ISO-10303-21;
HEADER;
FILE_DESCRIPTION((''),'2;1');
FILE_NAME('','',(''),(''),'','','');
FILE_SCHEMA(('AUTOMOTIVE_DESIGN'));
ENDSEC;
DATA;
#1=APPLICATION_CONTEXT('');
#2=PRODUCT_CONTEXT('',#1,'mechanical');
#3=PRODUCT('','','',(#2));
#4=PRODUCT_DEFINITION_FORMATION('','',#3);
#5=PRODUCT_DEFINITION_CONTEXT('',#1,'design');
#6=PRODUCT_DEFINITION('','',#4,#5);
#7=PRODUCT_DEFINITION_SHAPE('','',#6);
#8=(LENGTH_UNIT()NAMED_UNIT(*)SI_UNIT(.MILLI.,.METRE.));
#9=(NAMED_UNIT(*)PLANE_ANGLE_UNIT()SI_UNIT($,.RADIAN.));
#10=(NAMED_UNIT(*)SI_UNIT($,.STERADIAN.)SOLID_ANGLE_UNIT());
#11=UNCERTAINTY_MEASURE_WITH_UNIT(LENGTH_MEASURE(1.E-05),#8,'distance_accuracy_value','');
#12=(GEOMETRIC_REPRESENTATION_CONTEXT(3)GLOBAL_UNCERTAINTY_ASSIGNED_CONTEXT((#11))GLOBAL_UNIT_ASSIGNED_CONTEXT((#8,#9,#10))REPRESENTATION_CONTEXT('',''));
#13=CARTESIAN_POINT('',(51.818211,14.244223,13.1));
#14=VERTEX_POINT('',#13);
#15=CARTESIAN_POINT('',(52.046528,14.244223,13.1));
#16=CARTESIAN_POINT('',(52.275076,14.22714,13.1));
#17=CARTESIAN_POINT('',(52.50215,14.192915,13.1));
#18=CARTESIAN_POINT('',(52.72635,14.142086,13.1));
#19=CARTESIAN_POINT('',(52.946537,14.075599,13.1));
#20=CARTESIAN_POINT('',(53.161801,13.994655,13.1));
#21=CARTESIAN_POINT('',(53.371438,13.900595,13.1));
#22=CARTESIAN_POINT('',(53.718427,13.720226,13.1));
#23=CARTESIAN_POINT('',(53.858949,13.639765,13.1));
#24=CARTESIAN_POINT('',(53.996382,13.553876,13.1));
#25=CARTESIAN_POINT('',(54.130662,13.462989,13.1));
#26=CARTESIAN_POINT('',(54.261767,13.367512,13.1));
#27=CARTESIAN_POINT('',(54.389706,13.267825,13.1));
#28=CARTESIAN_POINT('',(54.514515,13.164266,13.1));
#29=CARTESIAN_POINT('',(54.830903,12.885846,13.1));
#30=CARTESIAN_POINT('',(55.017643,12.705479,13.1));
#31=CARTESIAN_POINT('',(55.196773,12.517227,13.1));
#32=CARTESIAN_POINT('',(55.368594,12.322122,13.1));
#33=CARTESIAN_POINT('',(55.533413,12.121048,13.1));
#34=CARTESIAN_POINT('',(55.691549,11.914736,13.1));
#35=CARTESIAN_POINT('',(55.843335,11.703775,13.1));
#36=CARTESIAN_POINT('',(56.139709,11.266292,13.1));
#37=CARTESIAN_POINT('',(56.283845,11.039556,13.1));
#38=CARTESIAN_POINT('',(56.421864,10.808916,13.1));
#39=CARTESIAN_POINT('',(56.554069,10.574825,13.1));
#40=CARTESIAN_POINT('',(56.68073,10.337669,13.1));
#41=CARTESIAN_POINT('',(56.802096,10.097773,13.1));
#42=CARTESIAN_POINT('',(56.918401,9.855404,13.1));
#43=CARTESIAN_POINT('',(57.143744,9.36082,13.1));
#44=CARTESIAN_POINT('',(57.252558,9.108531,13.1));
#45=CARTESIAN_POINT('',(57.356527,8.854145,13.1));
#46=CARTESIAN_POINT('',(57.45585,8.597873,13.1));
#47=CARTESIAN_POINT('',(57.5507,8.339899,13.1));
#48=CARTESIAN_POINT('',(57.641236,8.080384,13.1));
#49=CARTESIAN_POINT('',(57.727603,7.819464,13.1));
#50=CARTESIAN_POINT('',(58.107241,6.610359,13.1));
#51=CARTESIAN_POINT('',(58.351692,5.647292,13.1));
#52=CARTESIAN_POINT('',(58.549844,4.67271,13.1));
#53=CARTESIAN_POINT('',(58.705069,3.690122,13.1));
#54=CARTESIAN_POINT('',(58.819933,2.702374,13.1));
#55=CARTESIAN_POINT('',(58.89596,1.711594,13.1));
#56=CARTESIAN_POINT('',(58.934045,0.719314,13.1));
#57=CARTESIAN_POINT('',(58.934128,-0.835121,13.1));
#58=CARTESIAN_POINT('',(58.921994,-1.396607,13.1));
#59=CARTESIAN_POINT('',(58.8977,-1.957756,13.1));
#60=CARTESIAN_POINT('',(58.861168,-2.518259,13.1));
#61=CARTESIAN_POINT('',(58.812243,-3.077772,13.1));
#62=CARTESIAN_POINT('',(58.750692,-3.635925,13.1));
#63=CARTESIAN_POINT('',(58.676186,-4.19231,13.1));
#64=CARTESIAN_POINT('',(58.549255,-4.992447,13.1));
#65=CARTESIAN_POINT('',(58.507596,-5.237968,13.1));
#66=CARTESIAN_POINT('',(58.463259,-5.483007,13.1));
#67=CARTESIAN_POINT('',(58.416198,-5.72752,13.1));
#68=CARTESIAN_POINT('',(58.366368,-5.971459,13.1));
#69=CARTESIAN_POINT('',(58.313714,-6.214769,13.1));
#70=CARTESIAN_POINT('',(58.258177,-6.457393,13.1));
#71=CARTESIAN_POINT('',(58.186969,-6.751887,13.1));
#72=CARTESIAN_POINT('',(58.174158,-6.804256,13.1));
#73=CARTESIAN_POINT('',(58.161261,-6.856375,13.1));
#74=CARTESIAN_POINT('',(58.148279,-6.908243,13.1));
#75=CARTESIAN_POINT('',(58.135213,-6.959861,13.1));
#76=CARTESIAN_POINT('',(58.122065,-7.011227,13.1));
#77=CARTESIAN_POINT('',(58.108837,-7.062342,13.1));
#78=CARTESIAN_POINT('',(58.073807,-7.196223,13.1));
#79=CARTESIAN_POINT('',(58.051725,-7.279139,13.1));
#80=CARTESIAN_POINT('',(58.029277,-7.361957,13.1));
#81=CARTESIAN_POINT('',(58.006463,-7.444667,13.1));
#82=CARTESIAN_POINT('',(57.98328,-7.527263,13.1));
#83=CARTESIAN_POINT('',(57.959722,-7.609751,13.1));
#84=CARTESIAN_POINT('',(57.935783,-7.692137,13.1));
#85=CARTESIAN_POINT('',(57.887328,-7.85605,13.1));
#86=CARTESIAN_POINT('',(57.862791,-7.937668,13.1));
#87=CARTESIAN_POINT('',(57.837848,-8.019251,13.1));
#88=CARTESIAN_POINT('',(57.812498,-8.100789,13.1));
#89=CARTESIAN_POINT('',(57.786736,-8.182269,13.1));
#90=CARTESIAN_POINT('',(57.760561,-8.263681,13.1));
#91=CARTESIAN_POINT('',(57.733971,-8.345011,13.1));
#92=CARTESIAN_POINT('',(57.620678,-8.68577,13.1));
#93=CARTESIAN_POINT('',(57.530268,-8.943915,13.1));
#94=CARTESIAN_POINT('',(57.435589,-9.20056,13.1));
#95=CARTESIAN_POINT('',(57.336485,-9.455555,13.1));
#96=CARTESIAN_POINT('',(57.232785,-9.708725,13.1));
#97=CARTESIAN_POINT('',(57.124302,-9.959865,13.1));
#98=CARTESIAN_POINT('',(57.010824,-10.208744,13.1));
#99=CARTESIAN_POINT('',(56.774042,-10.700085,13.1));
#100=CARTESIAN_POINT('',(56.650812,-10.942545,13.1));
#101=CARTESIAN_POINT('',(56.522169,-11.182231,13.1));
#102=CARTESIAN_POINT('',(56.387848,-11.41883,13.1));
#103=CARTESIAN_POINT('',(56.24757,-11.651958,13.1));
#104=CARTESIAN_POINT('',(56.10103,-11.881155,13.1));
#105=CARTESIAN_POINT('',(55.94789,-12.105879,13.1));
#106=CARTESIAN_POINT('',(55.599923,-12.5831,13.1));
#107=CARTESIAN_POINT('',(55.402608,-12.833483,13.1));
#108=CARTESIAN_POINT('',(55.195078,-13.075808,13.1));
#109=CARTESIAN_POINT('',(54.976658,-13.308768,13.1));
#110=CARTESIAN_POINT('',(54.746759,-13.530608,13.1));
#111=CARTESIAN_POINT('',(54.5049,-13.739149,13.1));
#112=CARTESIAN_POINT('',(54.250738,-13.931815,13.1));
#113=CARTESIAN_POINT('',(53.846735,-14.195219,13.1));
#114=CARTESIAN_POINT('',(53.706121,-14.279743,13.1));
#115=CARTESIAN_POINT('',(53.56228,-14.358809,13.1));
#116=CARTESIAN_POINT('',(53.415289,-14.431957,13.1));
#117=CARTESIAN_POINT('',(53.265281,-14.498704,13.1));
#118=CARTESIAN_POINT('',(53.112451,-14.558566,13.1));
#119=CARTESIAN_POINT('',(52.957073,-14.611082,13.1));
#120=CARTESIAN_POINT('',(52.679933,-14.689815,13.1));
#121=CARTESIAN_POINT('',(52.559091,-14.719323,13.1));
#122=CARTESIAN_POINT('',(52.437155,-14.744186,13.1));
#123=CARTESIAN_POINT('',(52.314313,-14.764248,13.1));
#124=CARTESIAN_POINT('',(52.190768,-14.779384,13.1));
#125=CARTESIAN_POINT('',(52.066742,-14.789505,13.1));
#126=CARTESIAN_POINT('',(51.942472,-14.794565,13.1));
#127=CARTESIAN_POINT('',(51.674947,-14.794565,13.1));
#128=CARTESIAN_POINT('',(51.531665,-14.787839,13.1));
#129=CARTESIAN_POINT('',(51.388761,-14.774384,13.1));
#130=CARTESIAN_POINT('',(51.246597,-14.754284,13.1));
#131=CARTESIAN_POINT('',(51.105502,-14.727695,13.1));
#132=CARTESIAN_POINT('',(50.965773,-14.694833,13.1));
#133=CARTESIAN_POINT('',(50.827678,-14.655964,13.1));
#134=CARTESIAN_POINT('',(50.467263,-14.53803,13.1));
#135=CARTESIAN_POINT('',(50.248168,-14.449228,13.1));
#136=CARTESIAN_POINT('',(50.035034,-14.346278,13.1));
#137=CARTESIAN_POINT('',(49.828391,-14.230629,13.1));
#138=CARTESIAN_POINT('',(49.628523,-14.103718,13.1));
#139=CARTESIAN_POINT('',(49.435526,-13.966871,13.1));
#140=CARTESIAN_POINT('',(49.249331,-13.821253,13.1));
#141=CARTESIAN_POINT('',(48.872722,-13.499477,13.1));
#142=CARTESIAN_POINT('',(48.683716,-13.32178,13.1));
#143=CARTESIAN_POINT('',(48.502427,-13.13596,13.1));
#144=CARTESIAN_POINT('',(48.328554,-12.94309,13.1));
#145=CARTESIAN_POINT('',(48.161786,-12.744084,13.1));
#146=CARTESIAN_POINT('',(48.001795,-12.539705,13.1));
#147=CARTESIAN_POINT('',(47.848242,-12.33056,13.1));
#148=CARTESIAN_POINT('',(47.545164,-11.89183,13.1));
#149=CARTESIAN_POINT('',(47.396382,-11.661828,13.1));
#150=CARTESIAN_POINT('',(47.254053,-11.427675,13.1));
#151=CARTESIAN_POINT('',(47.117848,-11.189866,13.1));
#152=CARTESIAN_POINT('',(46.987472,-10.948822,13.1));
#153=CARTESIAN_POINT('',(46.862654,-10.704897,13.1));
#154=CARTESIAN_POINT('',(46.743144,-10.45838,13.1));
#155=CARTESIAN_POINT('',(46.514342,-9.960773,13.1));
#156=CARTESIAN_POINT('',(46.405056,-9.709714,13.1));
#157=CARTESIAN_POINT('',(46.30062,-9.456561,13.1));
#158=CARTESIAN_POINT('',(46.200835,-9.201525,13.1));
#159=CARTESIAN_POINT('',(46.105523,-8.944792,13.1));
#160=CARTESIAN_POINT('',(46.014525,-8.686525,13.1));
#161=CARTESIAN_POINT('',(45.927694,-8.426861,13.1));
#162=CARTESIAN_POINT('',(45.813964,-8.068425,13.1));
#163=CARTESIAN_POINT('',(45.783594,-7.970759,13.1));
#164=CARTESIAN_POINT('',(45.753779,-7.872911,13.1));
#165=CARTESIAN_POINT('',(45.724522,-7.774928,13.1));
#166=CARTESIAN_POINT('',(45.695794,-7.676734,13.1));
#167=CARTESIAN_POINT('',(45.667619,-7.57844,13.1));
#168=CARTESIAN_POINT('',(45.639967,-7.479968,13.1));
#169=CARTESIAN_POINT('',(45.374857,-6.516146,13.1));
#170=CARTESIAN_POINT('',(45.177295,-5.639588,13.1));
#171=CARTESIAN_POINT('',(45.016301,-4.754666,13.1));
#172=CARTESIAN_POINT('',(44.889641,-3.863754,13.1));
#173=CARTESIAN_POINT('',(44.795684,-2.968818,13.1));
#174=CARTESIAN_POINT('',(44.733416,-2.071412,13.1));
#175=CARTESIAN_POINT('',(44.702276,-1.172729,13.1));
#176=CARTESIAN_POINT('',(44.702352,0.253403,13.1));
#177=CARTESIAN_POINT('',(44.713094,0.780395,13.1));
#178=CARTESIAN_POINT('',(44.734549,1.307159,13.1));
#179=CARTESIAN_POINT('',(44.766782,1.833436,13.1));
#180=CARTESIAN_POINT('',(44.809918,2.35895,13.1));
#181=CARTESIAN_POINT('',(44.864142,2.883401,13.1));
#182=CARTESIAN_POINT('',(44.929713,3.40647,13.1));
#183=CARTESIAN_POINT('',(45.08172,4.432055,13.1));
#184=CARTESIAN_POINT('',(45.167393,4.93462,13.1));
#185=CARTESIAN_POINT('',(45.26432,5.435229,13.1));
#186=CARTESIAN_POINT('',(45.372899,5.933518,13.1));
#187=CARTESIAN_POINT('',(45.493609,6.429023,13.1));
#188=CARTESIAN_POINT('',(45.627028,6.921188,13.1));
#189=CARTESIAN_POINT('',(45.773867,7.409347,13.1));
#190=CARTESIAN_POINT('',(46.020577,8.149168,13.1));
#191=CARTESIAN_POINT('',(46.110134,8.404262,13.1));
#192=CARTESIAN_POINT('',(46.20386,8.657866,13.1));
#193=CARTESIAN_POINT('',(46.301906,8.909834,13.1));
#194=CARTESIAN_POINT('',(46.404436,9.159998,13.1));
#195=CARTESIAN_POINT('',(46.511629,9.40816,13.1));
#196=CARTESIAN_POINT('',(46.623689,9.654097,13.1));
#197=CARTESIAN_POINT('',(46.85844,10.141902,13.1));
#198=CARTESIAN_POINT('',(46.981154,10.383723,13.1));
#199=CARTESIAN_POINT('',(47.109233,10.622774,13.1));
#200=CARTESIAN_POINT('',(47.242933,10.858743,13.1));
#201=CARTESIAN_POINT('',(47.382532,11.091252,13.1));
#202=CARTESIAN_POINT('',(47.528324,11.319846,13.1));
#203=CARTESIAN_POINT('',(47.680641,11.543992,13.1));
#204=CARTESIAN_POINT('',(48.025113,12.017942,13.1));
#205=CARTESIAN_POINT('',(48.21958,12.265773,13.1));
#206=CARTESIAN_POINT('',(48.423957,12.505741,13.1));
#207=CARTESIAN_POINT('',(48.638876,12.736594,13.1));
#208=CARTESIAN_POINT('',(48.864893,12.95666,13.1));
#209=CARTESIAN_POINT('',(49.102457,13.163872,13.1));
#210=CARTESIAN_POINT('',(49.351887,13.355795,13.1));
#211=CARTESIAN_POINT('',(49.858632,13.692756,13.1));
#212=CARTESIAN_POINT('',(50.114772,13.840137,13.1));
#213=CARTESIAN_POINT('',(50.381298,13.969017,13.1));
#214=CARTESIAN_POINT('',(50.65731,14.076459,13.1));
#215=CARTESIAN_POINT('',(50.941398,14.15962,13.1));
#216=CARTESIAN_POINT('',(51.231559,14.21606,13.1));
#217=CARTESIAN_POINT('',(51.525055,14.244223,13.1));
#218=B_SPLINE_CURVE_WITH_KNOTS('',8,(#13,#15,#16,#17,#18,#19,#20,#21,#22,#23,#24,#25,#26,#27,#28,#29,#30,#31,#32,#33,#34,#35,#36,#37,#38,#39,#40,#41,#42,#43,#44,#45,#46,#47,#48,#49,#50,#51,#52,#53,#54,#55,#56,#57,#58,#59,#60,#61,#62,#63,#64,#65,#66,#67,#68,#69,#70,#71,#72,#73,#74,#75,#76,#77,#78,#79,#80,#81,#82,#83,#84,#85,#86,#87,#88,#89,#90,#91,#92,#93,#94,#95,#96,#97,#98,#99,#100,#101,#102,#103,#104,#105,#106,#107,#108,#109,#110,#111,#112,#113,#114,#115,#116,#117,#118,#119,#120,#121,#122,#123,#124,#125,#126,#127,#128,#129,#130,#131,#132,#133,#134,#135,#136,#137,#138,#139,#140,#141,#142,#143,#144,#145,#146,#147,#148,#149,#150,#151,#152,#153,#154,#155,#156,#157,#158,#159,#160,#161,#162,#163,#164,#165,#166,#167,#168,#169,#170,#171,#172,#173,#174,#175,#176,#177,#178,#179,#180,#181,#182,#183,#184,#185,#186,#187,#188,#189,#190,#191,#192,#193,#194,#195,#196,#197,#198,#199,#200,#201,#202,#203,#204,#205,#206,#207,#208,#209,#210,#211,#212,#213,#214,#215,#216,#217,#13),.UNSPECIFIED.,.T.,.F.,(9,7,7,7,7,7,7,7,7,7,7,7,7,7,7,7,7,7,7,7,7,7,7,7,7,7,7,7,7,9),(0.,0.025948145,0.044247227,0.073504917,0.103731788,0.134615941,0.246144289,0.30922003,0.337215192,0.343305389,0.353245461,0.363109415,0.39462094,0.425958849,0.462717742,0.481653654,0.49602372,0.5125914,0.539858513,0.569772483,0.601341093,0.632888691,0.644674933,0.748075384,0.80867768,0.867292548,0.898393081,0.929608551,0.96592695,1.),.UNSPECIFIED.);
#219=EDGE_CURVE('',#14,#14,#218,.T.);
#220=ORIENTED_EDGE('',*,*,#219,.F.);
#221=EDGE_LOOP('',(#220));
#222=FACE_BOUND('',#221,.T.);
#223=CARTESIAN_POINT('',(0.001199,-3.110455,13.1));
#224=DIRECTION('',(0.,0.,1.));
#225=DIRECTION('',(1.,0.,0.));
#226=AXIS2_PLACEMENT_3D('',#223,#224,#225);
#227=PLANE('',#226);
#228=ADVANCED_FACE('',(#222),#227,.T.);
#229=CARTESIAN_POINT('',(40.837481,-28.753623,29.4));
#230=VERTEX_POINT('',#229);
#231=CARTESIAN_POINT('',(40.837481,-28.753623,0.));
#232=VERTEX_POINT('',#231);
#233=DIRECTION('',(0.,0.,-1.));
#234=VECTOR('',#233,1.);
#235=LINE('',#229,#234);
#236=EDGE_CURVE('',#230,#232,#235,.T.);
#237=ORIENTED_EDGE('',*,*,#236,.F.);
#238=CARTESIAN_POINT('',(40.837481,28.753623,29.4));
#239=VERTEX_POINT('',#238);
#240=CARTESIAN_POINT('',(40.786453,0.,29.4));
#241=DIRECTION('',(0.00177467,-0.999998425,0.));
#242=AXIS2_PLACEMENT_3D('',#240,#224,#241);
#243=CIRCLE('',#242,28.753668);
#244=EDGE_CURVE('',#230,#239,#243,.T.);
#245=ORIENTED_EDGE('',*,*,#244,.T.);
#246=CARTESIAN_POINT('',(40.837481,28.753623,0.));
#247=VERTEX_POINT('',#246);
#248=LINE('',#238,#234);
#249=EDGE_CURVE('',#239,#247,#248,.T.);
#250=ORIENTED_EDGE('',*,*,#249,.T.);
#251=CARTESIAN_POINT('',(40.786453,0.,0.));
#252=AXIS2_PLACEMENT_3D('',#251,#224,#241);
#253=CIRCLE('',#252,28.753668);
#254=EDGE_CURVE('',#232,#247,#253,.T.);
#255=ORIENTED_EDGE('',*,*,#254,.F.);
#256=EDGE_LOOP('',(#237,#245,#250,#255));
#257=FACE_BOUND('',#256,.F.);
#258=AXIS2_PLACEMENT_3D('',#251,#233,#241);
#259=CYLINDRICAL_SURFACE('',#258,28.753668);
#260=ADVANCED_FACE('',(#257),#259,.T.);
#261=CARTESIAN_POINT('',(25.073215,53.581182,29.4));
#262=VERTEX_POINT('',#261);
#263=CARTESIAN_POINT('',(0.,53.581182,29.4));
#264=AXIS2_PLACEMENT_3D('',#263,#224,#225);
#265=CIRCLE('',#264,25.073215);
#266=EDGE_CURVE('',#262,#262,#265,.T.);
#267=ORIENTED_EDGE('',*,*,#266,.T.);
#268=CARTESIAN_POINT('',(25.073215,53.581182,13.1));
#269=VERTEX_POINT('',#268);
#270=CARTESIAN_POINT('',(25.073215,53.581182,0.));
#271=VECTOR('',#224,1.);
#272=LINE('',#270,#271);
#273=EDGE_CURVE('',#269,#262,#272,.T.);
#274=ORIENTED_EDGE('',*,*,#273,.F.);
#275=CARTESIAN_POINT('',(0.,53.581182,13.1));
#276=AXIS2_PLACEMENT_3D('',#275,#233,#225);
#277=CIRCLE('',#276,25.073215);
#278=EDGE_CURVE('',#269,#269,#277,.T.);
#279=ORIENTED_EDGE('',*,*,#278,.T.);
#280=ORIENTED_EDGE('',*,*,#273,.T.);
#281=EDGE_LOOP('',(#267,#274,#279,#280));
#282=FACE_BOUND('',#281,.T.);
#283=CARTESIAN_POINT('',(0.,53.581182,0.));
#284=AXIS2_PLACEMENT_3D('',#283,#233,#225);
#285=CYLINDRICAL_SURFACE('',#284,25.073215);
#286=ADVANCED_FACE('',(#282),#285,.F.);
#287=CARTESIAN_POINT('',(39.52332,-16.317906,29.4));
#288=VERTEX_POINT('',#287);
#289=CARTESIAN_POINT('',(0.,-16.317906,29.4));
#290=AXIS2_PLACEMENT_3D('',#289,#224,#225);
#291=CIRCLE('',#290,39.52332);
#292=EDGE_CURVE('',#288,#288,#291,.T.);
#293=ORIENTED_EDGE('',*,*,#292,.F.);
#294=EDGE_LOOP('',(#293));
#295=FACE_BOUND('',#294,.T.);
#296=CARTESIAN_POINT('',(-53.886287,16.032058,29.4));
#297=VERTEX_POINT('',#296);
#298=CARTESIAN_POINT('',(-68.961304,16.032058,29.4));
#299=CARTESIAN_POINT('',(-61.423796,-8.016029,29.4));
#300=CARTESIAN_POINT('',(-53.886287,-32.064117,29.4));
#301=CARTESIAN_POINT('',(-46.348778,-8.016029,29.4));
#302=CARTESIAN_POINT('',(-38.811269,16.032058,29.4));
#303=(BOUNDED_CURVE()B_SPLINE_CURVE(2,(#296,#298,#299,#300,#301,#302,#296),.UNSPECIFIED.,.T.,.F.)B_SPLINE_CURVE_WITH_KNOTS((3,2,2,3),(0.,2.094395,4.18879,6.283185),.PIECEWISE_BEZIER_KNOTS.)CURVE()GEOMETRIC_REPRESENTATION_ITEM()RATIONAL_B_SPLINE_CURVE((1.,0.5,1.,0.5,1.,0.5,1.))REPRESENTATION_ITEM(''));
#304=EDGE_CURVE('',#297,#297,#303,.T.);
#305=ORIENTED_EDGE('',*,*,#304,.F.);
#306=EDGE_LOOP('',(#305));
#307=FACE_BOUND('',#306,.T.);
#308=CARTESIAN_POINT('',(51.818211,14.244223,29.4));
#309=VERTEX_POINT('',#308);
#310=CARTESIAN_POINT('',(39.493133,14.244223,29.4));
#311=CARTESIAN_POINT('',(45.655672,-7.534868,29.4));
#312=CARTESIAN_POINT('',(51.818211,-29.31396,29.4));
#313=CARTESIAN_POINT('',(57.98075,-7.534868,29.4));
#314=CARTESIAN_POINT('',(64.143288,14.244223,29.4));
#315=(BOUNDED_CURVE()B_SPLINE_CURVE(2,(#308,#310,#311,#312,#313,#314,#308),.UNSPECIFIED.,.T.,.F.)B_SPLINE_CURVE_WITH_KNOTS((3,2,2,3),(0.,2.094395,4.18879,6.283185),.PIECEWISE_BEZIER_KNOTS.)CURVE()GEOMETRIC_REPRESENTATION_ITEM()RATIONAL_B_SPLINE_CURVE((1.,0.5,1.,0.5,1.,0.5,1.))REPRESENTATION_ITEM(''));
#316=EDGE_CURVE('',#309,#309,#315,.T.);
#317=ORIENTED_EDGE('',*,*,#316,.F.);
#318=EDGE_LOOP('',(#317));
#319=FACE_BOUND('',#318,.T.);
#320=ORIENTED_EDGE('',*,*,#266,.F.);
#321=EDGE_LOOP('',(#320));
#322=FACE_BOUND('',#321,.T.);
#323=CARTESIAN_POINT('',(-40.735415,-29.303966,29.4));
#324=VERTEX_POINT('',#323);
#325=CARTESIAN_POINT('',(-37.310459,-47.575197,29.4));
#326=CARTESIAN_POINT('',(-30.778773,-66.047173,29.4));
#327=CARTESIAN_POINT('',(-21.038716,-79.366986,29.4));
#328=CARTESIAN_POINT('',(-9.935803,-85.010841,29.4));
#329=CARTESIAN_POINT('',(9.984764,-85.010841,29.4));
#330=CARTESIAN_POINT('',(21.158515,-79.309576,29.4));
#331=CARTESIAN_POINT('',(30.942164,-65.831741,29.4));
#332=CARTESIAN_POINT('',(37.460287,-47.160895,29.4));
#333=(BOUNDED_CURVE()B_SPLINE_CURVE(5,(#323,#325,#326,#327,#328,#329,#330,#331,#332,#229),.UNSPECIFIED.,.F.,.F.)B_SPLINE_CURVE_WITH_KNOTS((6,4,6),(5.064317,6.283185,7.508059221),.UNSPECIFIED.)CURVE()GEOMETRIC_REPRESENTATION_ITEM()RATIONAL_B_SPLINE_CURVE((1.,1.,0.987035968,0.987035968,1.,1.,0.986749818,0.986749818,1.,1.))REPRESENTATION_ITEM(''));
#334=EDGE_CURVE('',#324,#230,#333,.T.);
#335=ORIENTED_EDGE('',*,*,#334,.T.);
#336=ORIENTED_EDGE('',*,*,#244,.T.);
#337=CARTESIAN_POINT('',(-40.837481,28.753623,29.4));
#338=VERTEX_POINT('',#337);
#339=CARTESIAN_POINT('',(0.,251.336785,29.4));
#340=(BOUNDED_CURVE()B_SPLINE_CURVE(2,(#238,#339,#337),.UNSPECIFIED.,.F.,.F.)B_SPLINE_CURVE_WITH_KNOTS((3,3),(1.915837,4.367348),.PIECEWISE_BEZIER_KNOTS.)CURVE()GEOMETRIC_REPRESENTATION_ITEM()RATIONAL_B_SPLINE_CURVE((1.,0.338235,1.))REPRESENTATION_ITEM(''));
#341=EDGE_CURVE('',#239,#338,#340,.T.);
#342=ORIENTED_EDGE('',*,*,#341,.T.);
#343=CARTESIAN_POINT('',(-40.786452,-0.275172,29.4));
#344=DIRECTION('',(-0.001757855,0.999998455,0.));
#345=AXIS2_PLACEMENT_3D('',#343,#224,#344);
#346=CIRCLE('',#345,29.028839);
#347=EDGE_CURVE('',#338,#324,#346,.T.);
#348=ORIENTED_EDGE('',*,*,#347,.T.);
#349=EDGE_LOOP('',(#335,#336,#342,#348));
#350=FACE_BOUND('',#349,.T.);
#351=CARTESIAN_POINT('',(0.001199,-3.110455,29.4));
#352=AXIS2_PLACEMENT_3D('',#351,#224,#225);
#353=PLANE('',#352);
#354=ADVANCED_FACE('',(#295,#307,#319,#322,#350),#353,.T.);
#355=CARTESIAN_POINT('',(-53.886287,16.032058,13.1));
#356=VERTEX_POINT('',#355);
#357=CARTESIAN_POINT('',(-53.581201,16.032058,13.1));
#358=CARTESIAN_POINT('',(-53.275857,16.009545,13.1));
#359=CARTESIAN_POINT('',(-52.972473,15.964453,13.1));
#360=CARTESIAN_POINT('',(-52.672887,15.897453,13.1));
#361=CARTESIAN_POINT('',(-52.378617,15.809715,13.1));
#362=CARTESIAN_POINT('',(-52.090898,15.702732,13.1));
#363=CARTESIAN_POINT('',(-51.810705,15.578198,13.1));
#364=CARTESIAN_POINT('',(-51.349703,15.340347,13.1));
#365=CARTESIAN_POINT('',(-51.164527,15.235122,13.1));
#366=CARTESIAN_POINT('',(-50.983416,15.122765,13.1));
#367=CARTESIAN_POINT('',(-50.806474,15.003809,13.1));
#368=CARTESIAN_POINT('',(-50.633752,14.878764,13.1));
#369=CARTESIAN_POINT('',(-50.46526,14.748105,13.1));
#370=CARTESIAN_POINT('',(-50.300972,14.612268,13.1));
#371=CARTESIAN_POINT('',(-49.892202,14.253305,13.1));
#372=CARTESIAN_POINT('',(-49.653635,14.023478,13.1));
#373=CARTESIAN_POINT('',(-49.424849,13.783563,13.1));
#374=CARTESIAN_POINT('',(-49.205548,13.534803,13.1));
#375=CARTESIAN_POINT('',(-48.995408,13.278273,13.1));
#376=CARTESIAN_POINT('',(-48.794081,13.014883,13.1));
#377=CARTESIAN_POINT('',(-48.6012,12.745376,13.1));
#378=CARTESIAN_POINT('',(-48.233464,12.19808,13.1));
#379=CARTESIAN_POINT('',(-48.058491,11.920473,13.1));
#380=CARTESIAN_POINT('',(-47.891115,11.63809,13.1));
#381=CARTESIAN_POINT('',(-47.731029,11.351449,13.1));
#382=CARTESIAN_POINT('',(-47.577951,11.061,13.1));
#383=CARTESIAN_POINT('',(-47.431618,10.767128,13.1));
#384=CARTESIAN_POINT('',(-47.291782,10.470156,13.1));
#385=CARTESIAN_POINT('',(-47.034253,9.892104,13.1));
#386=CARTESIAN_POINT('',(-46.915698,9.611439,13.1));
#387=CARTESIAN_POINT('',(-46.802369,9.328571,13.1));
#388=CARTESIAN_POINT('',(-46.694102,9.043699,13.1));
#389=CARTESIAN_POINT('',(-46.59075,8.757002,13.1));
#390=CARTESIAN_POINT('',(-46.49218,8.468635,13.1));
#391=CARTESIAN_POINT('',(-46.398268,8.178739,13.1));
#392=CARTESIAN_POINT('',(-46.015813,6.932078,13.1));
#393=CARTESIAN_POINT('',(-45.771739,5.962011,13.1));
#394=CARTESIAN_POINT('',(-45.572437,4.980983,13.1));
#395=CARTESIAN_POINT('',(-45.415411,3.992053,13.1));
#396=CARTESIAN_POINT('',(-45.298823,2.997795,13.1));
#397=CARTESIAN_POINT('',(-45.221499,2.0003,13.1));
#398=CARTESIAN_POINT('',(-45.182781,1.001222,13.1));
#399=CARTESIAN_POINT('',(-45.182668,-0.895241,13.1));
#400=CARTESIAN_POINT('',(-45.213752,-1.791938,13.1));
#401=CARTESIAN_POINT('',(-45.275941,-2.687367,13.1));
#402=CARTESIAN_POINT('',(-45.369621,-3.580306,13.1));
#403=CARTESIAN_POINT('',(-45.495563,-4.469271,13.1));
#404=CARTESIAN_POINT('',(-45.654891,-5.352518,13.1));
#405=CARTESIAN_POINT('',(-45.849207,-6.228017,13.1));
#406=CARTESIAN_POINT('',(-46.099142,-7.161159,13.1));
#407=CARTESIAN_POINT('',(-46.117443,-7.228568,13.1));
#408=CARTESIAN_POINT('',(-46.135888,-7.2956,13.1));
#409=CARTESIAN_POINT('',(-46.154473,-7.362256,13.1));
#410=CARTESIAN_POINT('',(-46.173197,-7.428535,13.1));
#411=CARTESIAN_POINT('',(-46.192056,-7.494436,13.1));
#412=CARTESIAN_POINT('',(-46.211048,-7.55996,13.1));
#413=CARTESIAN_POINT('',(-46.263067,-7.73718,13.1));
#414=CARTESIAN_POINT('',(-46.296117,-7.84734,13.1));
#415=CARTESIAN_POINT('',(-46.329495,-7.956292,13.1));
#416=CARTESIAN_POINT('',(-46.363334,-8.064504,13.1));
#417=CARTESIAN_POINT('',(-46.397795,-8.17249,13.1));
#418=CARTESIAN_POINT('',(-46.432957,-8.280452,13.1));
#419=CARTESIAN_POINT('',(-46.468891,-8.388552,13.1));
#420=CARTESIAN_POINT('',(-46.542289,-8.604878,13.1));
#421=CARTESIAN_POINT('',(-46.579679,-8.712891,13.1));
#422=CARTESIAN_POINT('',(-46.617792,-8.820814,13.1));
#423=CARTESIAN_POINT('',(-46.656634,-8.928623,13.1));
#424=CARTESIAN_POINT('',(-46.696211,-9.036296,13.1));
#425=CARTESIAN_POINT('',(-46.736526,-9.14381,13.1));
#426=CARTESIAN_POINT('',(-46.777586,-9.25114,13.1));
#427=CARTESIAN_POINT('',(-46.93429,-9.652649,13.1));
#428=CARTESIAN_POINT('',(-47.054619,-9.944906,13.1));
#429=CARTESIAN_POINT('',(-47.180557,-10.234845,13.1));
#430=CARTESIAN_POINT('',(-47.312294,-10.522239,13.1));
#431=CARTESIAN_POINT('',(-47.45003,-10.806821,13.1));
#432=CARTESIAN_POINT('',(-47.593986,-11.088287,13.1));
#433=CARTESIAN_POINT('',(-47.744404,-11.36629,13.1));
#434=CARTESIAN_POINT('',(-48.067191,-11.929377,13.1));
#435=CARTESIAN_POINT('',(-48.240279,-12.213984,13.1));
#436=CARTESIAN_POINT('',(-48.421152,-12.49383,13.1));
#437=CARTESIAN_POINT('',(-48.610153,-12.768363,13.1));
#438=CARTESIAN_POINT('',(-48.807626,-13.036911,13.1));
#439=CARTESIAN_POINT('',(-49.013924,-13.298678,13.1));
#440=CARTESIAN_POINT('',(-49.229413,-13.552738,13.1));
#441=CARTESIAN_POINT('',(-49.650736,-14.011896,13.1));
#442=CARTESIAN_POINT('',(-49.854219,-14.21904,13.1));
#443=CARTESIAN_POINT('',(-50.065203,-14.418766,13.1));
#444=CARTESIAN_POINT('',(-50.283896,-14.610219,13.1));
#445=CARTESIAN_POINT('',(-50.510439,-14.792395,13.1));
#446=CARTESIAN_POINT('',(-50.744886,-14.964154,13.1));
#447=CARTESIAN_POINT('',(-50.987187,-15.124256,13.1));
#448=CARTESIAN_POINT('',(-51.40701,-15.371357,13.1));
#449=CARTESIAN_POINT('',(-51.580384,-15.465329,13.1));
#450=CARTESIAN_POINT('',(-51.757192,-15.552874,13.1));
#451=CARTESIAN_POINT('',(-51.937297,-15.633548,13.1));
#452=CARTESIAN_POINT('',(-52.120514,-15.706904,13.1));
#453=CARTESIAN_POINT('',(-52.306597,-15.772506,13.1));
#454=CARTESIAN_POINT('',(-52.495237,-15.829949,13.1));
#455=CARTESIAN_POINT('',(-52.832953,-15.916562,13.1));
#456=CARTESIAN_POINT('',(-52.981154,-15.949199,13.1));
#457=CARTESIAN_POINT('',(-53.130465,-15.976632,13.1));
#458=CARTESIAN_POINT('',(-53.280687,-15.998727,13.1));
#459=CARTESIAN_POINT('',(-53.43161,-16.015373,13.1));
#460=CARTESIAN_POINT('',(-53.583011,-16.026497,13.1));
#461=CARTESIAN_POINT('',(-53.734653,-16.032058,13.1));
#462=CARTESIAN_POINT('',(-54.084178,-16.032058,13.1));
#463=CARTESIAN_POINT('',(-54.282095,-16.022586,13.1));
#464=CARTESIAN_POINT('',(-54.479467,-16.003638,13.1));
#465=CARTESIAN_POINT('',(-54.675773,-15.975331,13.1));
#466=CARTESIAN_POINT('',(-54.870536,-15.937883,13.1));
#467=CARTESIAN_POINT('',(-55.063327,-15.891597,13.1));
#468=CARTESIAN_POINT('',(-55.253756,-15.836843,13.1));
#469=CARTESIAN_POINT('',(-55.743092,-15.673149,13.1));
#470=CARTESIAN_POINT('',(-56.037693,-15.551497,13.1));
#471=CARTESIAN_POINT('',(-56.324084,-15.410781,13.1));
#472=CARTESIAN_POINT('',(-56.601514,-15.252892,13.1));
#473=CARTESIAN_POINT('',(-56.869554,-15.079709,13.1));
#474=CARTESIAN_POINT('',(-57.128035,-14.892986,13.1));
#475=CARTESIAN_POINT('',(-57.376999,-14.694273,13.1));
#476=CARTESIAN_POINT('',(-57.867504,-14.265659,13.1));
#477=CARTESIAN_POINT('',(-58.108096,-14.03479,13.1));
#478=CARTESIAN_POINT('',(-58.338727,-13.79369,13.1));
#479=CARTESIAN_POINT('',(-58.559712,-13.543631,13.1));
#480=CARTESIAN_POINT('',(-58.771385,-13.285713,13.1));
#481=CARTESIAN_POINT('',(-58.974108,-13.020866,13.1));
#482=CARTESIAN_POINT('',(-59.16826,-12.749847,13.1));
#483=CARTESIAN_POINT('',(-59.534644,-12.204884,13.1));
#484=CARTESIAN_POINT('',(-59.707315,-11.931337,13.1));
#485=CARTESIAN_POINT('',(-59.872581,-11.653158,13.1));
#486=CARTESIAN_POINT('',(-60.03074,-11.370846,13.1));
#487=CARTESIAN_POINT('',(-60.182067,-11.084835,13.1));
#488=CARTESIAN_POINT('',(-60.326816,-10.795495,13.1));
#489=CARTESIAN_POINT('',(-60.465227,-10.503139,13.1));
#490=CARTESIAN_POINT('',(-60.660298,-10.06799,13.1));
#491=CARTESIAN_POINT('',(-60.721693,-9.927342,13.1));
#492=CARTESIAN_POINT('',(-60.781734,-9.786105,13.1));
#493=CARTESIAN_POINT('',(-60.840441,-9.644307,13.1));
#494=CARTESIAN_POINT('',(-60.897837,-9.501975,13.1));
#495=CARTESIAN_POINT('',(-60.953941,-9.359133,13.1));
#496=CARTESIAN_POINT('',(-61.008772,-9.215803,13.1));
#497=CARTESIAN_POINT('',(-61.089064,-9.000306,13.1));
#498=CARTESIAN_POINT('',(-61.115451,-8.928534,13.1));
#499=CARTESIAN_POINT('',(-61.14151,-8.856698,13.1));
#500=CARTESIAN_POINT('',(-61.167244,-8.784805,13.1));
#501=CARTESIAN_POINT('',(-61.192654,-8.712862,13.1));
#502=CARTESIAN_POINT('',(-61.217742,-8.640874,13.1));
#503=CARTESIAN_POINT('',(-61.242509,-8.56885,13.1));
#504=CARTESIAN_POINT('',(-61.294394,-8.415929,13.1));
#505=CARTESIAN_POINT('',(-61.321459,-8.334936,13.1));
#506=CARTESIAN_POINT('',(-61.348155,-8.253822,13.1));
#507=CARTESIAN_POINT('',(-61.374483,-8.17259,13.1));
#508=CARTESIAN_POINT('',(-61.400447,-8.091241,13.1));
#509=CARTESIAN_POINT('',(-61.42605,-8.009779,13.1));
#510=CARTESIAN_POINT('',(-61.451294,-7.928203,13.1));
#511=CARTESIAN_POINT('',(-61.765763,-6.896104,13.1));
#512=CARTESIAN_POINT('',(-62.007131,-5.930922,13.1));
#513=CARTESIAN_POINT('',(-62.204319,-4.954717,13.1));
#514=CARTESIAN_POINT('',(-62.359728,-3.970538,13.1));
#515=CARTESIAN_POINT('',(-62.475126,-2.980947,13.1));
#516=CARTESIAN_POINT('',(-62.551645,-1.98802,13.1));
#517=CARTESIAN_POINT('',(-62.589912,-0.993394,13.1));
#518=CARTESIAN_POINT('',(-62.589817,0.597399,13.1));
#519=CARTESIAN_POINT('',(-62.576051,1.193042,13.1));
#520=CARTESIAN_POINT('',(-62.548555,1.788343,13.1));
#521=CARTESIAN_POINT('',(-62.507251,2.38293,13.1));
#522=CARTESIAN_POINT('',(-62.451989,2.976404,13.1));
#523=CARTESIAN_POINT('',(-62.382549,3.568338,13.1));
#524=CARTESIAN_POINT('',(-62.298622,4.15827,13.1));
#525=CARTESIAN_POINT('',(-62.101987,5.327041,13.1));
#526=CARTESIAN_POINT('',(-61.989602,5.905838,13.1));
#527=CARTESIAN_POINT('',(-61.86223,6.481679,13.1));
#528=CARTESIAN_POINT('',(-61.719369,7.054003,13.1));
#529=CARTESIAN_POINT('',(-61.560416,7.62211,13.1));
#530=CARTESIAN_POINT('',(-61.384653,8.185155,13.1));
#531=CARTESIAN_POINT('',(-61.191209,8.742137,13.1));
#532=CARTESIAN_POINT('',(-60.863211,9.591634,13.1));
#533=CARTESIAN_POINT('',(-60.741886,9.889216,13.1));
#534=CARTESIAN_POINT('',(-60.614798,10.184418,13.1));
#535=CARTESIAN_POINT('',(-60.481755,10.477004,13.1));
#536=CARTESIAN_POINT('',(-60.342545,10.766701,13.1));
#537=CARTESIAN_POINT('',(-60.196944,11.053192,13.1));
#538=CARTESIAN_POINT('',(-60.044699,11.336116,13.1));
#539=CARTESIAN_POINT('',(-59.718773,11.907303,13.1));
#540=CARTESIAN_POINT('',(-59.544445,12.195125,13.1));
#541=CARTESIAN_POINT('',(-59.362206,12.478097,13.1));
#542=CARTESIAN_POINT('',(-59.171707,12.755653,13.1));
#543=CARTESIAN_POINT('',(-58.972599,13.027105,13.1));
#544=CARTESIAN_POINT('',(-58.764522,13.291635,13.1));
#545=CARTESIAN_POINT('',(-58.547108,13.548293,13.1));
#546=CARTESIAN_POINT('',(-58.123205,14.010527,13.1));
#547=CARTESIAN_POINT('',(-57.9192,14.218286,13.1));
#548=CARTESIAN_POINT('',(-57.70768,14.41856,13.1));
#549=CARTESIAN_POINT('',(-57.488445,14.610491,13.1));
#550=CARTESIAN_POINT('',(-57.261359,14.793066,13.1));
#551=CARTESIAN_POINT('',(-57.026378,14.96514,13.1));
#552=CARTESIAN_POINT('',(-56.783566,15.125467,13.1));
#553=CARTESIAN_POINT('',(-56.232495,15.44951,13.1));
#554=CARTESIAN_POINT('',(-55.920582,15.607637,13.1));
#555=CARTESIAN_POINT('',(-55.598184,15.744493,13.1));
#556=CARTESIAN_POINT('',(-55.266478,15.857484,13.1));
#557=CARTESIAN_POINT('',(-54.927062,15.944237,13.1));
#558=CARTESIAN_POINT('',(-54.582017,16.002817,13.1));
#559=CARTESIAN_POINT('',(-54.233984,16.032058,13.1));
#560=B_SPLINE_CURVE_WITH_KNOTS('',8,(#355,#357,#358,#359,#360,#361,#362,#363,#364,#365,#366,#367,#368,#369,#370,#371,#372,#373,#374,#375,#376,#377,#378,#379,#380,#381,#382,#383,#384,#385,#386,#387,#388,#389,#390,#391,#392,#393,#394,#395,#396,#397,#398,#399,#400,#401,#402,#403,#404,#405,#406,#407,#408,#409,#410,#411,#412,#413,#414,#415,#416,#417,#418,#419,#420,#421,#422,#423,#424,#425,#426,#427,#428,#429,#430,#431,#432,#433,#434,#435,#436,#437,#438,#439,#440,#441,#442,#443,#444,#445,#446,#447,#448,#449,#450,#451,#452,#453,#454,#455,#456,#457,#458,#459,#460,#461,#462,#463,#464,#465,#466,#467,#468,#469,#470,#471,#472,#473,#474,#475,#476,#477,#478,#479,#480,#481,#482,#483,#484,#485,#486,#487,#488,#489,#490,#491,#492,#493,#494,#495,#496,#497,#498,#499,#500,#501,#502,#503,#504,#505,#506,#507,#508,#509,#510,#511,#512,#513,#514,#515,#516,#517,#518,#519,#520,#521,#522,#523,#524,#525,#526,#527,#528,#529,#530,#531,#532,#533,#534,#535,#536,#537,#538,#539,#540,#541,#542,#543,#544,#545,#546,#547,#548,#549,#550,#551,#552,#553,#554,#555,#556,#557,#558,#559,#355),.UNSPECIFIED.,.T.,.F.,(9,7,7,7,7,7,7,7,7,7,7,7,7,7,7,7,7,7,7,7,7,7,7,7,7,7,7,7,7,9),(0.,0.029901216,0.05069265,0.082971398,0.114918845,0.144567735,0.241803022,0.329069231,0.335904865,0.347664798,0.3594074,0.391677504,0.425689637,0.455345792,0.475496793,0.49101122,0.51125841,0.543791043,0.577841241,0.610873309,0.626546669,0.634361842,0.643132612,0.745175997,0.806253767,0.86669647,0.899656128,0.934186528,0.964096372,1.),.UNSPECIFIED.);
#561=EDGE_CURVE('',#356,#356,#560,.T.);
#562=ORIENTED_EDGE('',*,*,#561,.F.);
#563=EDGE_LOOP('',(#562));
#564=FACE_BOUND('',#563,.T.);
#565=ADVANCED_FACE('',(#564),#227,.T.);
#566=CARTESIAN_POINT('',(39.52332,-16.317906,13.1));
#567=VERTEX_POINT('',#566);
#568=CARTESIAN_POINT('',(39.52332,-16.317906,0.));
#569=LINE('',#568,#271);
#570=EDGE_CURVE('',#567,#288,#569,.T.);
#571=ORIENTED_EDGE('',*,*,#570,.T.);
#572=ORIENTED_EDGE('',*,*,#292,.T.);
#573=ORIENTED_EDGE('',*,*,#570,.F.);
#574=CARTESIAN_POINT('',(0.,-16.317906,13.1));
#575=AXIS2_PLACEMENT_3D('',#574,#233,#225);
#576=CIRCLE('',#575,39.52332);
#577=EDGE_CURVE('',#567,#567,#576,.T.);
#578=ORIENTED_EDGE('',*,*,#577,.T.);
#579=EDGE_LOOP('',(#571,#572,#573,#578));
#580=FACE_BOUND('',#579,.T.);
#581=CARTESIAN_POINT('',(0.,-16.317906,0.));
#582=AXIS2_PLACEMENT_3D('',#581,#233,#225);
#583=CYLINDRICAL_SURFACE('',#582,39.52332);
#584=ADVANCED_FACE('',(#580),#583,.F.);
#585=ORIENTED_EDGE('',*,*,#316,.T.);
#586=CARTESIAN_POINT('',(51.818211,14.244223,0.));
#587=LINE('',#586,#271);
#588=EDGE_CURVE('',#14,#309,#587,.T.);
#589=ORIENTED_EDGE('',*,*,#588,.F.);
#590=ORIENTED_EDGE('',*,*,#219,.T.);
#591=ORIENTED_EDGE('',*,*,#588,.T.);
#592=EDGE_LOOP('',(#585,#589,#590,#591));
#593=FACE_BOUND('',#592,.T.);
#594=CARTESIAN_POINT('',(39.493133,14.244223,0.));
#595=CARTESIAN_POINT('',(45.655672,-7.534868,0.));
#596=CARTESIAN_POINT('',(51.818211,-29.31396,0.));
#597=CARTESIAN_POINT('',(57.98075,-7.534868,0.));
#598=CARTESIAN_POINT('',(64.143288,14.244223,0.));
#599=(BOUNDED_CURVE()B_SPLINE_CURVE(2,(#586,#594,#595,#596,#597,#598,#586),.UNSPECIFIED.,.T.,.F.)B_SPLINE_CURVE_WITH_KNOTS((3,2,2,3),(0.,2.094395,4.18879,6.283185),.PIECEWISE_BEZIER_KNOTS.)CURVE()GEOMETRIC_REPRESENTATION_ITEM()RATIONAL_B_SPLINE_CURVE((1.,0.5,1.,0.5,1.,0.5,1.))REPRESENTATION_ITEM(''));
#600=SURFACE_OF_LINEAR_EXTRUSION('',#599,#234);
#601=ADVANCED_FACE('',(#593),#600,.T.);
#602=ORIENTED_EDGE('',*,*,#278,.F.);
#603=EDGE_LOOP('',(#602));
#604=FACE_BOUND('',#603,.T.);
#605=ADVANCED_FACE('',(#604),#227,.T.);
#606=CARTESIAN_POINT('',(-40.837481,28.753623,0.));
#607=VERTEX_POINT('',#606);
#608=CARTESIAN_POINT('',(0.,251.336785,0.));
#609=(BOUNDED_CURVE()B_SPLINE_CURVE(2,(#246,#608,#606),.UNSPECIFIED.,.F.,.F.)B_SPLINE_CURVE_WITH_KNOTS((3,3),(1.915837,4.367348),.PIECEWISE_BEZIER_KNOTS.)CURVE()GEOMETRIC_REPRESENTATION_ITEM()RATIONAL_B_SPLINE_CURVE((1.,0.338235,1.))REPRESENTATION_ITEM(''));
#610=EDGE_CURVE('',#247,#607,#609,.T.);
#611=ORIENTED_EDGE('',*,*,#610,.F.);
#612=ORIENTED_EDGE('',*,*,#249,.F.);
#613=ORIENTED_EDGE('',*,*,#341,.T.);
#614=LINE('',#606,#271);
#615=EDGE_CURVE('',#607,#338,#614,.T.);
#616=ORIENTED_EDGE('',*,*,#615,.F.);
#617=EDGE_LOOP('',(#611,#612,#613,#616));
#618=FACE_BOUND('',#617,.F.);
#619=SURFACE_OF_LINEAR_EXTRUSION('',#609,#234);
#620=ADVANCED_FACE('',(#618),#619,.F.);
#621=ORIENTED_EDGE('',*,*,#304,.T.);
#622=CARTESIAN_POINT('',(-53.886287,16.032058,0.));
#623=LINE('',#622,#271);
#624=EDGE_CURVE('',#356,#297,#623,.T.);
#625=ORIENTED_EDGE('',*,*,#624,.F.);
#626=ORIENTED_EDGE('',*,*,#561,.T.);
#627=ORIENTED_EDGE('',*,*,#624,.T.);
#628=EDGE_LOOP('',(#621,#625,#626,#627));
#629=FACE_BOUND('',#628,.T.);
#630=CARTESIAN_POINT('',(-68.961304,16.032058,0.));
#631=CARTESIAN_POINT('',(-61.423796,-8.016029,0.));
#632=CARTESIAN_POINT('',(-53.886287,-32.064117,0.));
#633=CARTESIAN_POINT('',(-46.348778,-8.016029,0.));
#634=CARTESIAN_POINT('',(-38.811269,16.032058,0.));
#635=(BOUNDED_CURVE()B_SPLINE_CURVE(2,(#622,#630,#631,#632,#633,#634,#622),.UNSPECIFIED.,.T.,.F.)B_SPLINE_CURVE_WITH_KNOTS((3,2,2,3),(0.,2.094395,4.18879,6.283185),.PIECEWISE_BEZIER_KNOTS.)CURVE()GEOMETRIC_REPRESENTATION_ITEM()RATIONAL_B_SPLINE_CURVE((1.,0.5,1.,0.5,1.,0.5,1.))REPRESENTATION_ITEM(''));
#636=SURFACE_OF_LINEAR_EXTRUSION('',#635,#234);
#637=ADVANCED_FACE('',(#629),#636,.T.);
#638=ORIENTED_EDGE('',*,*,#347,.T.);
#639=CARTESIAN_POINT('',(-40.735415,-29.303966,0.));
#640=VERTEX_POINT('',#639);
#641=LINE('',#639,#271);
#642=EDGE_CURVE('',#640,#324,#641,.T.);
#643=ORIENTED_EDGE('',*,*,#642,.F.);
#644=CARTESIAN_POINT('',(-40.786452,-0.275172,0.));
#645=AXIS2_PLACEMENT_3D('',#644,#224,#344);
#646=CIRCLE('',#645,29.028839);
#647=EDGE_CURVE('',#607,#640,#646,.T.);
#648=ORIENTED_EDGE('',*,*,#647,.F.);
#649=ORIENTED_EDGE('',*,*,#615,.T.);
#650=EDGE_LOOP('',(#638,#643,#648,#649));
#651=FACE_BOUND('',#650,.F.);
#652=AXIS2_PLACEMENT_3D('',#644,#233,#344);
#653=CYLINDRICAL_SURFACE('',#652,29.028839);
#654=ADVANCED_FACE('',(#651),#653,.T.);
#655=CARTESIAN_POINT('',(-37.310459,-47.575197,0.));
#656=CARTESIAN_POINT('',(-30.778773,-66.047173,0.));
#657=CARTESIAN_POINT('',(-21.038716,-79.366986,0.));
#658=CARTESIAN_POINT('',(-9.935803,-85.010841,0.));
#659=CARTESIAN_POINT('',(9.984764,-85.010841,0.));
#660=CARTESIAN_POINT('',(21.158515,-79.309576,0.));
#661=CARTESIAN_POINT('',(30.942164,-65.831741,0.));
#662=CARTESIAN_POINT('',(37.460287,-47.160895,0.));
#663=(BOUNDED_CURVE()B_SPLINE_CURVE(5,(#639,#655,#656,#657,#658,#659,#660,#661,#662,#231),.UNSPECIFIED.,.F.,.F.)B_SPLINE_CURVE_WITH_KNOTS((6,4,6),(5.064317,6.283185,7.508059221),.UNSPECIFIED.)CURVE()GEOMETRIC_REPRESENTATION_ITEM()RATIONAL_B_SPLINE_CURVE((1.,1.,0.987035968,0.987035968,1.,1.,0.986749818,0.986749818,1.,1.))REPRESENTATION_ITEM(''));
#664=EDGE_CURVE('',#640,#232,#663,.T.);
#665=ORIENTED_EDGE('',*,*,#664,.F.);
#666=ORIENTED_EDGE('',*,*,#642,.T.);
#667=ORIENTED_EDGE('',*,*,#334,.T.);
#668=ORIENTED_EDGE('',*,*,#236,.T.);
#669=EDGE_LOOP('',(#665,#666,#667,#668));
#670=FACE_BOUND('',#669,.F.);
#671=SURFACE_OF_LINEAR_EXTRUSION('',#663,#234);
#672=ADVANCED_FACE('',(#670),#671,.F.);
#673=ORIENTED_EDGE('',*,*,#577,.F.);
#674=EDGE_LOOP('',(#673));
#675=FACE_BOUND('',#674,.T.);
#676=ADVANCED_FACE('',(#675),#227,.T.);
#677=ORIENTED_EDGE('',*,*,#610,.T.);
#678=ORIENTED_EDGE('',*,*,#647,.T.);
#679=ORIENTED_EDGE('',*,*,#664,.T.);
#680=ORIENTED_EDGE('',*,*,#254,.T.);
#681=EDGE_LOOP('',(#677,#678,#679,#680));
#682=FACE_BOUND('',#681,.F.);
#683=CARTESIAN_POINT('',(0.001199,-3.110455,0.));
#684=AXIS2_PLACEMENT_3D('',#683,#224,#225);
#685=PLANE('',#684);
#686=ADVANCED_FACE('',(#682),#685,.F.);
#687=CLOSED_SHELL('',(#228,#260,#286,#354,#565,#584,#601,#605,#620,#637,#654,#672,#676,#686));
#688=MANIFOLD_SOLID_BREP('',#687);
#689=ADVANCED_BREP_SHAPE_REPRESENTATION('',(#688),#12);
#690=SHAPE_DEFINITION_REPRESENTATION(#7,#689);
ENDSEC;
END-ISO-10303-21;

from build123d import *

# Parameters (mm, degrees)
F0_R     = 39.52332
F0_R_2   = 25.073215
F1_DEPTH = 29.4
F2_DEPTH = 13.1


with BuildPart() as f1:
    # F0 (on Top) → F1 (new body)
    with BuildSketch(Plane.XY):
        with BuildLine():
            add(Edge.make_bspline(
                [(-40.837481, 28.753623), (-46.170077, -0.311493), (-40.735415, -29.303966)],
                knots=[4.367348, 4.367348, 4.367348, 5.064317, 5.064317, 5.064317], degree=2, weights=[1, 0.939891, 1]))
            add(Edge.make_bspline(
                [(-40.735415, -29.303966), (-30.293118, -85.010841), (0, -85.010841)],
                knots=[5.064317, 5.064317, 5.064317, 6.283185, 6.283185, 6.283185], degree=2, weights=[1, 0.819972, 1]))
            add(Edge.make_bspline(
                [(0, -85.010841), (30.515932, -85.010841), (40.837481, -28.753623)],
                knots=[0, 0, 0, 1.225756, 1.225756, 1.225756], degree=2, weights=[1, 0.817996, 1]))
            add(Edge.make_bspline(
                [(40.837481, -28.753623), (46.112927, 0), (40.837481, 28.753623)],
                knots=[1.225756, 1.225756, 1.225756, 1.915837, 1.915837, 1.915837], degree=2, weights=[1, 0.941062, 1]))
            add(Edge.make_bspline(
                [(40.837481, 28.753623), (0, 251.336785), (-40.837481, 28.753623)],
                knots=[1.915837, 1.915837, 1.915837, 4.367348, 4.367348, 4.367348], degree=2, weights=[1, 0.338235, 1]))
        make_face()
        with Locations((0, -16.317906)):
            Circle(F0_R, mode=Mode.SUBTRACT)
        with Locations((0, 53.581182)):
            Circle(F0_R_2, mode=Mode.SUBTRACT)
        with BuildLine():
            ThreePointArc((-40.837481, 28.753623), (-69.815247, -0.326204), (-40.735415, -29.303966))
            add(Edge.make_bspline(
                [(-40.837481, 28.753623), (-46.170077, -0.311493), (-40.735415, -29.303966)],
                knots=[4.367348, 4.367348, 4.367348, 5.064317, 5.064317, 5.064317], degree=2, weights=[1, 0.939891, 1]))
        make_face()
        with BuildLine():
            add(Edge.make_bspline(
                [(-53.886287, 16.032058), (-68.961304, 16.032058), (-61.423796, -8.016029), (-53.886287, -32.064117), (-46.348778, -8.016029), (-38.811269, 16.032058), (-53.886287, 16.032058)],
                knots=[0, 0, 0, 2.094395, 2.094395, 4.18879, 4.18879, 6.283185, 6.283185, 6.283185], degree=2, weights=[1, 0.5, 1, 0.5, 1, 0.5, 1]))
        make_face(mode=Mode.SUBTRACT)
        with BuildLine():
            add(Edge.make_bspline(
                [(40.837481, -28.753623), (46.112927, 0), (40.837481, 28.753623)],
                knots=[1.225756, 1.225756, 1.225756, 1.915837, 1.915837, 1.915837], degree=2, weights=[1, 0.941062, 1]))
            ThreePointArc((40.837481, -28.753623), (69.540121, 0), (40.837481, 28.753623))
        make_face()
        with BuildLine():
            add(Edge.make_bspline(
                [(51.818211, 14.244223), (39.493133, 14.244223), (45.655672, -7.534868), (51.818211, -29.31396), (57.98075, -7.534868), (64.143288, 14.244223), (51.818211, 14.244223)],
                knots=[0, 0, 0, 2.094395, 2.094395, 4.18879, 4.18879, 6.283185, 6.283185, 6.283185], degree=2, weights=[1, 0.5, 1, 0.5, 1, 0.5, 1]))
        make_face(mode=Mode.SUBTRACT)
    extrude(amount=F1_DEPTH)

    # F0 (on Top) → F2 (join)
    with BuildSketch(Plane.XY):
        with BuildLine():
            add(Edge.make_bspline(
                [(-40.837481, 28.753623), (-46.170077, -0.311493), (-40.735415, -29.303966)],
                knots=[4.367348, 4.367348, 4.367348, 5.064317, 5.064317, 5.064317], degree=2, weights=[1, 0.939891, 1]))
            add(Edge.make_bspline(
                [(-40.735415, -29.303966), (-30.293118, -85.010841), (0, -85.010841)],
                knots=[5.064317, 5.064317, 5.064317, 6.283185, 6.283185, 6.283185], degree=2, weights=[1, 0.819972, 1]))
            add(Edge.make_bspline(
                [(0, -85.010841), (30.515932, -85.010841), (40.837481, -28.753623)],
                knots=[0, 0, 0, 1.225756, 1.225756, 1.225756], degree=2, weights=[1, 0.817996, 1]))
            add(Edge.make_bspline(
                [(40.837481, -28.753623), (46.112927, 0), (40.837481, 28.753623)],
                knots=[1.225756, 1.225756, 1.225756, 1.915837, 1.915837, 1.915837], degree=2, weights=[1, 0.941062, 1]))
            add(Edge.make_bspline(
                [(40.837481, 28.753623), (0, 251.336785), (-40.837481, 28.753623)],
                knots=[1.915837, 1.915837, 1.915837, 4.367348, 4.367348, 4.367348], degree=2, weights=[1, 0.338235, 1]))
        make_face()
        with Locations((0, -16.317906)):
            Circle(F0_R, mode=Mode.SUBTRACT)
        with Locations((0, 53.581182)):
            Circle(F0_R_2, mode=Mode.SUBTRACT)
        with BuildLine():
            ThreePointArc((-40.837481, 28.753623), (-69.815247, -0.326204), (-40.735415, -29.303966))
            add(Edge.make_bspline(
                [(-40.837481, 28.753623), (-46.170077, -0.311493), (-40.735415, -29.303966)],
                knots=[4.367348, 4.367348, 4.367348, 5.064317, 5.064317, 5.064317], degree=2, weights=[1, 0.939891, 1]))
        make_face()
        with BuildLine():
            add(Edge.make_bspline(
                [(-53.886287, 16.032058), (-68.961304, 16.032058), (-61.423796, -8.016029), (-53.886287, -32.064117), (-46.348778, -8.016029), (-38.811269, 16.032058), (-53.886287, 16.032058)],
                knots=[0, 0, 0, 2.094395, 2.094395, 4.18879, 4.18879, 6.283185, 6.283185, 6.283185], degree=2, weights=[1, 0.5, 1, 0.5, 1, 0.5, 1]))
        make_face(mode=Mode.SUBTRACT)
        with BuildLine():
            add(Edge.make_bspline(
                [(40.837481, -28.753623), (46.112927, 0), (40.837481, 28.753623)],
                knots=[1.225756, 1.225756, 1.225756, 1.915837, 1.915837, 1.915837], degree=2, weights=[1, 0.941062, 1]))
            ThreePointArc((40.837481, -28.753623), (69.540121, 0), (40.837481, 28.753623))
        make_face()
        with BuildLine():
            add(Edge.make_bspline(
                [(51.818211, 14.244223), (39.493133, 14.244223), (45.655672, -7.534868), (51.818211, -29.31396), (57.98075, -7.534868), (64.143288, 14.244223), (51.818211, 14.244223)],
                knots=[0, 0, 0, 2.094395, 2.094395, 4.18879, 4.18879, 6.283185, 6.283185, 6.283185], degree=2, weights=[1, 0.5, 1, 0.5, 1, 0.5, 1]))
        make_face(mode=Mode.SUBTRACT)
        with BuildLine():
            add(Edge.make_bspline(
                [(51.818211, 14.244223), (39.493133, 14.244223), (45.655672, -7.534868), (51.818211, -29.31396), (57.98075, -7.534868), (64.143288, 14.244223), (51.818211, 14.244223)],
                knots=[0, 0, 0, 2.094395, 2.094395, 4.18879, 4.18879, 6.283185, 6.283185, 6.283185], degree=2, weights=[1, 0.5, 1, 0.5, 1, 0.5, 1]))
        make_face()
        with Locations((0, -16.317906)):
            Circle(F0_R)
        with Locations((0, 53.581182)):
            Circle(F0_R_2)
        with BuildLine():
            add(Edge.make_bspline(
                [(-53.886287, 16.032058), (-68.961304, 16.032058), (-61.423796, -8.016029), (-53.886287, -32.064117), (-46.348778, -8.016029), (-38.811269, 16.032058), (-53.886287, 16.032058)],
                knots=[0, 0, 0, 2.094395, 2.094395, 4.18879, 4.18879, 6.283185, 6.283185, 6.283185], degree=2, weights=[1, 0.5, 1, 0.5, 1, 0.5, 1]))
        make_face()
    extrude(amount=F2_DEPTH)


solid = f1.part
